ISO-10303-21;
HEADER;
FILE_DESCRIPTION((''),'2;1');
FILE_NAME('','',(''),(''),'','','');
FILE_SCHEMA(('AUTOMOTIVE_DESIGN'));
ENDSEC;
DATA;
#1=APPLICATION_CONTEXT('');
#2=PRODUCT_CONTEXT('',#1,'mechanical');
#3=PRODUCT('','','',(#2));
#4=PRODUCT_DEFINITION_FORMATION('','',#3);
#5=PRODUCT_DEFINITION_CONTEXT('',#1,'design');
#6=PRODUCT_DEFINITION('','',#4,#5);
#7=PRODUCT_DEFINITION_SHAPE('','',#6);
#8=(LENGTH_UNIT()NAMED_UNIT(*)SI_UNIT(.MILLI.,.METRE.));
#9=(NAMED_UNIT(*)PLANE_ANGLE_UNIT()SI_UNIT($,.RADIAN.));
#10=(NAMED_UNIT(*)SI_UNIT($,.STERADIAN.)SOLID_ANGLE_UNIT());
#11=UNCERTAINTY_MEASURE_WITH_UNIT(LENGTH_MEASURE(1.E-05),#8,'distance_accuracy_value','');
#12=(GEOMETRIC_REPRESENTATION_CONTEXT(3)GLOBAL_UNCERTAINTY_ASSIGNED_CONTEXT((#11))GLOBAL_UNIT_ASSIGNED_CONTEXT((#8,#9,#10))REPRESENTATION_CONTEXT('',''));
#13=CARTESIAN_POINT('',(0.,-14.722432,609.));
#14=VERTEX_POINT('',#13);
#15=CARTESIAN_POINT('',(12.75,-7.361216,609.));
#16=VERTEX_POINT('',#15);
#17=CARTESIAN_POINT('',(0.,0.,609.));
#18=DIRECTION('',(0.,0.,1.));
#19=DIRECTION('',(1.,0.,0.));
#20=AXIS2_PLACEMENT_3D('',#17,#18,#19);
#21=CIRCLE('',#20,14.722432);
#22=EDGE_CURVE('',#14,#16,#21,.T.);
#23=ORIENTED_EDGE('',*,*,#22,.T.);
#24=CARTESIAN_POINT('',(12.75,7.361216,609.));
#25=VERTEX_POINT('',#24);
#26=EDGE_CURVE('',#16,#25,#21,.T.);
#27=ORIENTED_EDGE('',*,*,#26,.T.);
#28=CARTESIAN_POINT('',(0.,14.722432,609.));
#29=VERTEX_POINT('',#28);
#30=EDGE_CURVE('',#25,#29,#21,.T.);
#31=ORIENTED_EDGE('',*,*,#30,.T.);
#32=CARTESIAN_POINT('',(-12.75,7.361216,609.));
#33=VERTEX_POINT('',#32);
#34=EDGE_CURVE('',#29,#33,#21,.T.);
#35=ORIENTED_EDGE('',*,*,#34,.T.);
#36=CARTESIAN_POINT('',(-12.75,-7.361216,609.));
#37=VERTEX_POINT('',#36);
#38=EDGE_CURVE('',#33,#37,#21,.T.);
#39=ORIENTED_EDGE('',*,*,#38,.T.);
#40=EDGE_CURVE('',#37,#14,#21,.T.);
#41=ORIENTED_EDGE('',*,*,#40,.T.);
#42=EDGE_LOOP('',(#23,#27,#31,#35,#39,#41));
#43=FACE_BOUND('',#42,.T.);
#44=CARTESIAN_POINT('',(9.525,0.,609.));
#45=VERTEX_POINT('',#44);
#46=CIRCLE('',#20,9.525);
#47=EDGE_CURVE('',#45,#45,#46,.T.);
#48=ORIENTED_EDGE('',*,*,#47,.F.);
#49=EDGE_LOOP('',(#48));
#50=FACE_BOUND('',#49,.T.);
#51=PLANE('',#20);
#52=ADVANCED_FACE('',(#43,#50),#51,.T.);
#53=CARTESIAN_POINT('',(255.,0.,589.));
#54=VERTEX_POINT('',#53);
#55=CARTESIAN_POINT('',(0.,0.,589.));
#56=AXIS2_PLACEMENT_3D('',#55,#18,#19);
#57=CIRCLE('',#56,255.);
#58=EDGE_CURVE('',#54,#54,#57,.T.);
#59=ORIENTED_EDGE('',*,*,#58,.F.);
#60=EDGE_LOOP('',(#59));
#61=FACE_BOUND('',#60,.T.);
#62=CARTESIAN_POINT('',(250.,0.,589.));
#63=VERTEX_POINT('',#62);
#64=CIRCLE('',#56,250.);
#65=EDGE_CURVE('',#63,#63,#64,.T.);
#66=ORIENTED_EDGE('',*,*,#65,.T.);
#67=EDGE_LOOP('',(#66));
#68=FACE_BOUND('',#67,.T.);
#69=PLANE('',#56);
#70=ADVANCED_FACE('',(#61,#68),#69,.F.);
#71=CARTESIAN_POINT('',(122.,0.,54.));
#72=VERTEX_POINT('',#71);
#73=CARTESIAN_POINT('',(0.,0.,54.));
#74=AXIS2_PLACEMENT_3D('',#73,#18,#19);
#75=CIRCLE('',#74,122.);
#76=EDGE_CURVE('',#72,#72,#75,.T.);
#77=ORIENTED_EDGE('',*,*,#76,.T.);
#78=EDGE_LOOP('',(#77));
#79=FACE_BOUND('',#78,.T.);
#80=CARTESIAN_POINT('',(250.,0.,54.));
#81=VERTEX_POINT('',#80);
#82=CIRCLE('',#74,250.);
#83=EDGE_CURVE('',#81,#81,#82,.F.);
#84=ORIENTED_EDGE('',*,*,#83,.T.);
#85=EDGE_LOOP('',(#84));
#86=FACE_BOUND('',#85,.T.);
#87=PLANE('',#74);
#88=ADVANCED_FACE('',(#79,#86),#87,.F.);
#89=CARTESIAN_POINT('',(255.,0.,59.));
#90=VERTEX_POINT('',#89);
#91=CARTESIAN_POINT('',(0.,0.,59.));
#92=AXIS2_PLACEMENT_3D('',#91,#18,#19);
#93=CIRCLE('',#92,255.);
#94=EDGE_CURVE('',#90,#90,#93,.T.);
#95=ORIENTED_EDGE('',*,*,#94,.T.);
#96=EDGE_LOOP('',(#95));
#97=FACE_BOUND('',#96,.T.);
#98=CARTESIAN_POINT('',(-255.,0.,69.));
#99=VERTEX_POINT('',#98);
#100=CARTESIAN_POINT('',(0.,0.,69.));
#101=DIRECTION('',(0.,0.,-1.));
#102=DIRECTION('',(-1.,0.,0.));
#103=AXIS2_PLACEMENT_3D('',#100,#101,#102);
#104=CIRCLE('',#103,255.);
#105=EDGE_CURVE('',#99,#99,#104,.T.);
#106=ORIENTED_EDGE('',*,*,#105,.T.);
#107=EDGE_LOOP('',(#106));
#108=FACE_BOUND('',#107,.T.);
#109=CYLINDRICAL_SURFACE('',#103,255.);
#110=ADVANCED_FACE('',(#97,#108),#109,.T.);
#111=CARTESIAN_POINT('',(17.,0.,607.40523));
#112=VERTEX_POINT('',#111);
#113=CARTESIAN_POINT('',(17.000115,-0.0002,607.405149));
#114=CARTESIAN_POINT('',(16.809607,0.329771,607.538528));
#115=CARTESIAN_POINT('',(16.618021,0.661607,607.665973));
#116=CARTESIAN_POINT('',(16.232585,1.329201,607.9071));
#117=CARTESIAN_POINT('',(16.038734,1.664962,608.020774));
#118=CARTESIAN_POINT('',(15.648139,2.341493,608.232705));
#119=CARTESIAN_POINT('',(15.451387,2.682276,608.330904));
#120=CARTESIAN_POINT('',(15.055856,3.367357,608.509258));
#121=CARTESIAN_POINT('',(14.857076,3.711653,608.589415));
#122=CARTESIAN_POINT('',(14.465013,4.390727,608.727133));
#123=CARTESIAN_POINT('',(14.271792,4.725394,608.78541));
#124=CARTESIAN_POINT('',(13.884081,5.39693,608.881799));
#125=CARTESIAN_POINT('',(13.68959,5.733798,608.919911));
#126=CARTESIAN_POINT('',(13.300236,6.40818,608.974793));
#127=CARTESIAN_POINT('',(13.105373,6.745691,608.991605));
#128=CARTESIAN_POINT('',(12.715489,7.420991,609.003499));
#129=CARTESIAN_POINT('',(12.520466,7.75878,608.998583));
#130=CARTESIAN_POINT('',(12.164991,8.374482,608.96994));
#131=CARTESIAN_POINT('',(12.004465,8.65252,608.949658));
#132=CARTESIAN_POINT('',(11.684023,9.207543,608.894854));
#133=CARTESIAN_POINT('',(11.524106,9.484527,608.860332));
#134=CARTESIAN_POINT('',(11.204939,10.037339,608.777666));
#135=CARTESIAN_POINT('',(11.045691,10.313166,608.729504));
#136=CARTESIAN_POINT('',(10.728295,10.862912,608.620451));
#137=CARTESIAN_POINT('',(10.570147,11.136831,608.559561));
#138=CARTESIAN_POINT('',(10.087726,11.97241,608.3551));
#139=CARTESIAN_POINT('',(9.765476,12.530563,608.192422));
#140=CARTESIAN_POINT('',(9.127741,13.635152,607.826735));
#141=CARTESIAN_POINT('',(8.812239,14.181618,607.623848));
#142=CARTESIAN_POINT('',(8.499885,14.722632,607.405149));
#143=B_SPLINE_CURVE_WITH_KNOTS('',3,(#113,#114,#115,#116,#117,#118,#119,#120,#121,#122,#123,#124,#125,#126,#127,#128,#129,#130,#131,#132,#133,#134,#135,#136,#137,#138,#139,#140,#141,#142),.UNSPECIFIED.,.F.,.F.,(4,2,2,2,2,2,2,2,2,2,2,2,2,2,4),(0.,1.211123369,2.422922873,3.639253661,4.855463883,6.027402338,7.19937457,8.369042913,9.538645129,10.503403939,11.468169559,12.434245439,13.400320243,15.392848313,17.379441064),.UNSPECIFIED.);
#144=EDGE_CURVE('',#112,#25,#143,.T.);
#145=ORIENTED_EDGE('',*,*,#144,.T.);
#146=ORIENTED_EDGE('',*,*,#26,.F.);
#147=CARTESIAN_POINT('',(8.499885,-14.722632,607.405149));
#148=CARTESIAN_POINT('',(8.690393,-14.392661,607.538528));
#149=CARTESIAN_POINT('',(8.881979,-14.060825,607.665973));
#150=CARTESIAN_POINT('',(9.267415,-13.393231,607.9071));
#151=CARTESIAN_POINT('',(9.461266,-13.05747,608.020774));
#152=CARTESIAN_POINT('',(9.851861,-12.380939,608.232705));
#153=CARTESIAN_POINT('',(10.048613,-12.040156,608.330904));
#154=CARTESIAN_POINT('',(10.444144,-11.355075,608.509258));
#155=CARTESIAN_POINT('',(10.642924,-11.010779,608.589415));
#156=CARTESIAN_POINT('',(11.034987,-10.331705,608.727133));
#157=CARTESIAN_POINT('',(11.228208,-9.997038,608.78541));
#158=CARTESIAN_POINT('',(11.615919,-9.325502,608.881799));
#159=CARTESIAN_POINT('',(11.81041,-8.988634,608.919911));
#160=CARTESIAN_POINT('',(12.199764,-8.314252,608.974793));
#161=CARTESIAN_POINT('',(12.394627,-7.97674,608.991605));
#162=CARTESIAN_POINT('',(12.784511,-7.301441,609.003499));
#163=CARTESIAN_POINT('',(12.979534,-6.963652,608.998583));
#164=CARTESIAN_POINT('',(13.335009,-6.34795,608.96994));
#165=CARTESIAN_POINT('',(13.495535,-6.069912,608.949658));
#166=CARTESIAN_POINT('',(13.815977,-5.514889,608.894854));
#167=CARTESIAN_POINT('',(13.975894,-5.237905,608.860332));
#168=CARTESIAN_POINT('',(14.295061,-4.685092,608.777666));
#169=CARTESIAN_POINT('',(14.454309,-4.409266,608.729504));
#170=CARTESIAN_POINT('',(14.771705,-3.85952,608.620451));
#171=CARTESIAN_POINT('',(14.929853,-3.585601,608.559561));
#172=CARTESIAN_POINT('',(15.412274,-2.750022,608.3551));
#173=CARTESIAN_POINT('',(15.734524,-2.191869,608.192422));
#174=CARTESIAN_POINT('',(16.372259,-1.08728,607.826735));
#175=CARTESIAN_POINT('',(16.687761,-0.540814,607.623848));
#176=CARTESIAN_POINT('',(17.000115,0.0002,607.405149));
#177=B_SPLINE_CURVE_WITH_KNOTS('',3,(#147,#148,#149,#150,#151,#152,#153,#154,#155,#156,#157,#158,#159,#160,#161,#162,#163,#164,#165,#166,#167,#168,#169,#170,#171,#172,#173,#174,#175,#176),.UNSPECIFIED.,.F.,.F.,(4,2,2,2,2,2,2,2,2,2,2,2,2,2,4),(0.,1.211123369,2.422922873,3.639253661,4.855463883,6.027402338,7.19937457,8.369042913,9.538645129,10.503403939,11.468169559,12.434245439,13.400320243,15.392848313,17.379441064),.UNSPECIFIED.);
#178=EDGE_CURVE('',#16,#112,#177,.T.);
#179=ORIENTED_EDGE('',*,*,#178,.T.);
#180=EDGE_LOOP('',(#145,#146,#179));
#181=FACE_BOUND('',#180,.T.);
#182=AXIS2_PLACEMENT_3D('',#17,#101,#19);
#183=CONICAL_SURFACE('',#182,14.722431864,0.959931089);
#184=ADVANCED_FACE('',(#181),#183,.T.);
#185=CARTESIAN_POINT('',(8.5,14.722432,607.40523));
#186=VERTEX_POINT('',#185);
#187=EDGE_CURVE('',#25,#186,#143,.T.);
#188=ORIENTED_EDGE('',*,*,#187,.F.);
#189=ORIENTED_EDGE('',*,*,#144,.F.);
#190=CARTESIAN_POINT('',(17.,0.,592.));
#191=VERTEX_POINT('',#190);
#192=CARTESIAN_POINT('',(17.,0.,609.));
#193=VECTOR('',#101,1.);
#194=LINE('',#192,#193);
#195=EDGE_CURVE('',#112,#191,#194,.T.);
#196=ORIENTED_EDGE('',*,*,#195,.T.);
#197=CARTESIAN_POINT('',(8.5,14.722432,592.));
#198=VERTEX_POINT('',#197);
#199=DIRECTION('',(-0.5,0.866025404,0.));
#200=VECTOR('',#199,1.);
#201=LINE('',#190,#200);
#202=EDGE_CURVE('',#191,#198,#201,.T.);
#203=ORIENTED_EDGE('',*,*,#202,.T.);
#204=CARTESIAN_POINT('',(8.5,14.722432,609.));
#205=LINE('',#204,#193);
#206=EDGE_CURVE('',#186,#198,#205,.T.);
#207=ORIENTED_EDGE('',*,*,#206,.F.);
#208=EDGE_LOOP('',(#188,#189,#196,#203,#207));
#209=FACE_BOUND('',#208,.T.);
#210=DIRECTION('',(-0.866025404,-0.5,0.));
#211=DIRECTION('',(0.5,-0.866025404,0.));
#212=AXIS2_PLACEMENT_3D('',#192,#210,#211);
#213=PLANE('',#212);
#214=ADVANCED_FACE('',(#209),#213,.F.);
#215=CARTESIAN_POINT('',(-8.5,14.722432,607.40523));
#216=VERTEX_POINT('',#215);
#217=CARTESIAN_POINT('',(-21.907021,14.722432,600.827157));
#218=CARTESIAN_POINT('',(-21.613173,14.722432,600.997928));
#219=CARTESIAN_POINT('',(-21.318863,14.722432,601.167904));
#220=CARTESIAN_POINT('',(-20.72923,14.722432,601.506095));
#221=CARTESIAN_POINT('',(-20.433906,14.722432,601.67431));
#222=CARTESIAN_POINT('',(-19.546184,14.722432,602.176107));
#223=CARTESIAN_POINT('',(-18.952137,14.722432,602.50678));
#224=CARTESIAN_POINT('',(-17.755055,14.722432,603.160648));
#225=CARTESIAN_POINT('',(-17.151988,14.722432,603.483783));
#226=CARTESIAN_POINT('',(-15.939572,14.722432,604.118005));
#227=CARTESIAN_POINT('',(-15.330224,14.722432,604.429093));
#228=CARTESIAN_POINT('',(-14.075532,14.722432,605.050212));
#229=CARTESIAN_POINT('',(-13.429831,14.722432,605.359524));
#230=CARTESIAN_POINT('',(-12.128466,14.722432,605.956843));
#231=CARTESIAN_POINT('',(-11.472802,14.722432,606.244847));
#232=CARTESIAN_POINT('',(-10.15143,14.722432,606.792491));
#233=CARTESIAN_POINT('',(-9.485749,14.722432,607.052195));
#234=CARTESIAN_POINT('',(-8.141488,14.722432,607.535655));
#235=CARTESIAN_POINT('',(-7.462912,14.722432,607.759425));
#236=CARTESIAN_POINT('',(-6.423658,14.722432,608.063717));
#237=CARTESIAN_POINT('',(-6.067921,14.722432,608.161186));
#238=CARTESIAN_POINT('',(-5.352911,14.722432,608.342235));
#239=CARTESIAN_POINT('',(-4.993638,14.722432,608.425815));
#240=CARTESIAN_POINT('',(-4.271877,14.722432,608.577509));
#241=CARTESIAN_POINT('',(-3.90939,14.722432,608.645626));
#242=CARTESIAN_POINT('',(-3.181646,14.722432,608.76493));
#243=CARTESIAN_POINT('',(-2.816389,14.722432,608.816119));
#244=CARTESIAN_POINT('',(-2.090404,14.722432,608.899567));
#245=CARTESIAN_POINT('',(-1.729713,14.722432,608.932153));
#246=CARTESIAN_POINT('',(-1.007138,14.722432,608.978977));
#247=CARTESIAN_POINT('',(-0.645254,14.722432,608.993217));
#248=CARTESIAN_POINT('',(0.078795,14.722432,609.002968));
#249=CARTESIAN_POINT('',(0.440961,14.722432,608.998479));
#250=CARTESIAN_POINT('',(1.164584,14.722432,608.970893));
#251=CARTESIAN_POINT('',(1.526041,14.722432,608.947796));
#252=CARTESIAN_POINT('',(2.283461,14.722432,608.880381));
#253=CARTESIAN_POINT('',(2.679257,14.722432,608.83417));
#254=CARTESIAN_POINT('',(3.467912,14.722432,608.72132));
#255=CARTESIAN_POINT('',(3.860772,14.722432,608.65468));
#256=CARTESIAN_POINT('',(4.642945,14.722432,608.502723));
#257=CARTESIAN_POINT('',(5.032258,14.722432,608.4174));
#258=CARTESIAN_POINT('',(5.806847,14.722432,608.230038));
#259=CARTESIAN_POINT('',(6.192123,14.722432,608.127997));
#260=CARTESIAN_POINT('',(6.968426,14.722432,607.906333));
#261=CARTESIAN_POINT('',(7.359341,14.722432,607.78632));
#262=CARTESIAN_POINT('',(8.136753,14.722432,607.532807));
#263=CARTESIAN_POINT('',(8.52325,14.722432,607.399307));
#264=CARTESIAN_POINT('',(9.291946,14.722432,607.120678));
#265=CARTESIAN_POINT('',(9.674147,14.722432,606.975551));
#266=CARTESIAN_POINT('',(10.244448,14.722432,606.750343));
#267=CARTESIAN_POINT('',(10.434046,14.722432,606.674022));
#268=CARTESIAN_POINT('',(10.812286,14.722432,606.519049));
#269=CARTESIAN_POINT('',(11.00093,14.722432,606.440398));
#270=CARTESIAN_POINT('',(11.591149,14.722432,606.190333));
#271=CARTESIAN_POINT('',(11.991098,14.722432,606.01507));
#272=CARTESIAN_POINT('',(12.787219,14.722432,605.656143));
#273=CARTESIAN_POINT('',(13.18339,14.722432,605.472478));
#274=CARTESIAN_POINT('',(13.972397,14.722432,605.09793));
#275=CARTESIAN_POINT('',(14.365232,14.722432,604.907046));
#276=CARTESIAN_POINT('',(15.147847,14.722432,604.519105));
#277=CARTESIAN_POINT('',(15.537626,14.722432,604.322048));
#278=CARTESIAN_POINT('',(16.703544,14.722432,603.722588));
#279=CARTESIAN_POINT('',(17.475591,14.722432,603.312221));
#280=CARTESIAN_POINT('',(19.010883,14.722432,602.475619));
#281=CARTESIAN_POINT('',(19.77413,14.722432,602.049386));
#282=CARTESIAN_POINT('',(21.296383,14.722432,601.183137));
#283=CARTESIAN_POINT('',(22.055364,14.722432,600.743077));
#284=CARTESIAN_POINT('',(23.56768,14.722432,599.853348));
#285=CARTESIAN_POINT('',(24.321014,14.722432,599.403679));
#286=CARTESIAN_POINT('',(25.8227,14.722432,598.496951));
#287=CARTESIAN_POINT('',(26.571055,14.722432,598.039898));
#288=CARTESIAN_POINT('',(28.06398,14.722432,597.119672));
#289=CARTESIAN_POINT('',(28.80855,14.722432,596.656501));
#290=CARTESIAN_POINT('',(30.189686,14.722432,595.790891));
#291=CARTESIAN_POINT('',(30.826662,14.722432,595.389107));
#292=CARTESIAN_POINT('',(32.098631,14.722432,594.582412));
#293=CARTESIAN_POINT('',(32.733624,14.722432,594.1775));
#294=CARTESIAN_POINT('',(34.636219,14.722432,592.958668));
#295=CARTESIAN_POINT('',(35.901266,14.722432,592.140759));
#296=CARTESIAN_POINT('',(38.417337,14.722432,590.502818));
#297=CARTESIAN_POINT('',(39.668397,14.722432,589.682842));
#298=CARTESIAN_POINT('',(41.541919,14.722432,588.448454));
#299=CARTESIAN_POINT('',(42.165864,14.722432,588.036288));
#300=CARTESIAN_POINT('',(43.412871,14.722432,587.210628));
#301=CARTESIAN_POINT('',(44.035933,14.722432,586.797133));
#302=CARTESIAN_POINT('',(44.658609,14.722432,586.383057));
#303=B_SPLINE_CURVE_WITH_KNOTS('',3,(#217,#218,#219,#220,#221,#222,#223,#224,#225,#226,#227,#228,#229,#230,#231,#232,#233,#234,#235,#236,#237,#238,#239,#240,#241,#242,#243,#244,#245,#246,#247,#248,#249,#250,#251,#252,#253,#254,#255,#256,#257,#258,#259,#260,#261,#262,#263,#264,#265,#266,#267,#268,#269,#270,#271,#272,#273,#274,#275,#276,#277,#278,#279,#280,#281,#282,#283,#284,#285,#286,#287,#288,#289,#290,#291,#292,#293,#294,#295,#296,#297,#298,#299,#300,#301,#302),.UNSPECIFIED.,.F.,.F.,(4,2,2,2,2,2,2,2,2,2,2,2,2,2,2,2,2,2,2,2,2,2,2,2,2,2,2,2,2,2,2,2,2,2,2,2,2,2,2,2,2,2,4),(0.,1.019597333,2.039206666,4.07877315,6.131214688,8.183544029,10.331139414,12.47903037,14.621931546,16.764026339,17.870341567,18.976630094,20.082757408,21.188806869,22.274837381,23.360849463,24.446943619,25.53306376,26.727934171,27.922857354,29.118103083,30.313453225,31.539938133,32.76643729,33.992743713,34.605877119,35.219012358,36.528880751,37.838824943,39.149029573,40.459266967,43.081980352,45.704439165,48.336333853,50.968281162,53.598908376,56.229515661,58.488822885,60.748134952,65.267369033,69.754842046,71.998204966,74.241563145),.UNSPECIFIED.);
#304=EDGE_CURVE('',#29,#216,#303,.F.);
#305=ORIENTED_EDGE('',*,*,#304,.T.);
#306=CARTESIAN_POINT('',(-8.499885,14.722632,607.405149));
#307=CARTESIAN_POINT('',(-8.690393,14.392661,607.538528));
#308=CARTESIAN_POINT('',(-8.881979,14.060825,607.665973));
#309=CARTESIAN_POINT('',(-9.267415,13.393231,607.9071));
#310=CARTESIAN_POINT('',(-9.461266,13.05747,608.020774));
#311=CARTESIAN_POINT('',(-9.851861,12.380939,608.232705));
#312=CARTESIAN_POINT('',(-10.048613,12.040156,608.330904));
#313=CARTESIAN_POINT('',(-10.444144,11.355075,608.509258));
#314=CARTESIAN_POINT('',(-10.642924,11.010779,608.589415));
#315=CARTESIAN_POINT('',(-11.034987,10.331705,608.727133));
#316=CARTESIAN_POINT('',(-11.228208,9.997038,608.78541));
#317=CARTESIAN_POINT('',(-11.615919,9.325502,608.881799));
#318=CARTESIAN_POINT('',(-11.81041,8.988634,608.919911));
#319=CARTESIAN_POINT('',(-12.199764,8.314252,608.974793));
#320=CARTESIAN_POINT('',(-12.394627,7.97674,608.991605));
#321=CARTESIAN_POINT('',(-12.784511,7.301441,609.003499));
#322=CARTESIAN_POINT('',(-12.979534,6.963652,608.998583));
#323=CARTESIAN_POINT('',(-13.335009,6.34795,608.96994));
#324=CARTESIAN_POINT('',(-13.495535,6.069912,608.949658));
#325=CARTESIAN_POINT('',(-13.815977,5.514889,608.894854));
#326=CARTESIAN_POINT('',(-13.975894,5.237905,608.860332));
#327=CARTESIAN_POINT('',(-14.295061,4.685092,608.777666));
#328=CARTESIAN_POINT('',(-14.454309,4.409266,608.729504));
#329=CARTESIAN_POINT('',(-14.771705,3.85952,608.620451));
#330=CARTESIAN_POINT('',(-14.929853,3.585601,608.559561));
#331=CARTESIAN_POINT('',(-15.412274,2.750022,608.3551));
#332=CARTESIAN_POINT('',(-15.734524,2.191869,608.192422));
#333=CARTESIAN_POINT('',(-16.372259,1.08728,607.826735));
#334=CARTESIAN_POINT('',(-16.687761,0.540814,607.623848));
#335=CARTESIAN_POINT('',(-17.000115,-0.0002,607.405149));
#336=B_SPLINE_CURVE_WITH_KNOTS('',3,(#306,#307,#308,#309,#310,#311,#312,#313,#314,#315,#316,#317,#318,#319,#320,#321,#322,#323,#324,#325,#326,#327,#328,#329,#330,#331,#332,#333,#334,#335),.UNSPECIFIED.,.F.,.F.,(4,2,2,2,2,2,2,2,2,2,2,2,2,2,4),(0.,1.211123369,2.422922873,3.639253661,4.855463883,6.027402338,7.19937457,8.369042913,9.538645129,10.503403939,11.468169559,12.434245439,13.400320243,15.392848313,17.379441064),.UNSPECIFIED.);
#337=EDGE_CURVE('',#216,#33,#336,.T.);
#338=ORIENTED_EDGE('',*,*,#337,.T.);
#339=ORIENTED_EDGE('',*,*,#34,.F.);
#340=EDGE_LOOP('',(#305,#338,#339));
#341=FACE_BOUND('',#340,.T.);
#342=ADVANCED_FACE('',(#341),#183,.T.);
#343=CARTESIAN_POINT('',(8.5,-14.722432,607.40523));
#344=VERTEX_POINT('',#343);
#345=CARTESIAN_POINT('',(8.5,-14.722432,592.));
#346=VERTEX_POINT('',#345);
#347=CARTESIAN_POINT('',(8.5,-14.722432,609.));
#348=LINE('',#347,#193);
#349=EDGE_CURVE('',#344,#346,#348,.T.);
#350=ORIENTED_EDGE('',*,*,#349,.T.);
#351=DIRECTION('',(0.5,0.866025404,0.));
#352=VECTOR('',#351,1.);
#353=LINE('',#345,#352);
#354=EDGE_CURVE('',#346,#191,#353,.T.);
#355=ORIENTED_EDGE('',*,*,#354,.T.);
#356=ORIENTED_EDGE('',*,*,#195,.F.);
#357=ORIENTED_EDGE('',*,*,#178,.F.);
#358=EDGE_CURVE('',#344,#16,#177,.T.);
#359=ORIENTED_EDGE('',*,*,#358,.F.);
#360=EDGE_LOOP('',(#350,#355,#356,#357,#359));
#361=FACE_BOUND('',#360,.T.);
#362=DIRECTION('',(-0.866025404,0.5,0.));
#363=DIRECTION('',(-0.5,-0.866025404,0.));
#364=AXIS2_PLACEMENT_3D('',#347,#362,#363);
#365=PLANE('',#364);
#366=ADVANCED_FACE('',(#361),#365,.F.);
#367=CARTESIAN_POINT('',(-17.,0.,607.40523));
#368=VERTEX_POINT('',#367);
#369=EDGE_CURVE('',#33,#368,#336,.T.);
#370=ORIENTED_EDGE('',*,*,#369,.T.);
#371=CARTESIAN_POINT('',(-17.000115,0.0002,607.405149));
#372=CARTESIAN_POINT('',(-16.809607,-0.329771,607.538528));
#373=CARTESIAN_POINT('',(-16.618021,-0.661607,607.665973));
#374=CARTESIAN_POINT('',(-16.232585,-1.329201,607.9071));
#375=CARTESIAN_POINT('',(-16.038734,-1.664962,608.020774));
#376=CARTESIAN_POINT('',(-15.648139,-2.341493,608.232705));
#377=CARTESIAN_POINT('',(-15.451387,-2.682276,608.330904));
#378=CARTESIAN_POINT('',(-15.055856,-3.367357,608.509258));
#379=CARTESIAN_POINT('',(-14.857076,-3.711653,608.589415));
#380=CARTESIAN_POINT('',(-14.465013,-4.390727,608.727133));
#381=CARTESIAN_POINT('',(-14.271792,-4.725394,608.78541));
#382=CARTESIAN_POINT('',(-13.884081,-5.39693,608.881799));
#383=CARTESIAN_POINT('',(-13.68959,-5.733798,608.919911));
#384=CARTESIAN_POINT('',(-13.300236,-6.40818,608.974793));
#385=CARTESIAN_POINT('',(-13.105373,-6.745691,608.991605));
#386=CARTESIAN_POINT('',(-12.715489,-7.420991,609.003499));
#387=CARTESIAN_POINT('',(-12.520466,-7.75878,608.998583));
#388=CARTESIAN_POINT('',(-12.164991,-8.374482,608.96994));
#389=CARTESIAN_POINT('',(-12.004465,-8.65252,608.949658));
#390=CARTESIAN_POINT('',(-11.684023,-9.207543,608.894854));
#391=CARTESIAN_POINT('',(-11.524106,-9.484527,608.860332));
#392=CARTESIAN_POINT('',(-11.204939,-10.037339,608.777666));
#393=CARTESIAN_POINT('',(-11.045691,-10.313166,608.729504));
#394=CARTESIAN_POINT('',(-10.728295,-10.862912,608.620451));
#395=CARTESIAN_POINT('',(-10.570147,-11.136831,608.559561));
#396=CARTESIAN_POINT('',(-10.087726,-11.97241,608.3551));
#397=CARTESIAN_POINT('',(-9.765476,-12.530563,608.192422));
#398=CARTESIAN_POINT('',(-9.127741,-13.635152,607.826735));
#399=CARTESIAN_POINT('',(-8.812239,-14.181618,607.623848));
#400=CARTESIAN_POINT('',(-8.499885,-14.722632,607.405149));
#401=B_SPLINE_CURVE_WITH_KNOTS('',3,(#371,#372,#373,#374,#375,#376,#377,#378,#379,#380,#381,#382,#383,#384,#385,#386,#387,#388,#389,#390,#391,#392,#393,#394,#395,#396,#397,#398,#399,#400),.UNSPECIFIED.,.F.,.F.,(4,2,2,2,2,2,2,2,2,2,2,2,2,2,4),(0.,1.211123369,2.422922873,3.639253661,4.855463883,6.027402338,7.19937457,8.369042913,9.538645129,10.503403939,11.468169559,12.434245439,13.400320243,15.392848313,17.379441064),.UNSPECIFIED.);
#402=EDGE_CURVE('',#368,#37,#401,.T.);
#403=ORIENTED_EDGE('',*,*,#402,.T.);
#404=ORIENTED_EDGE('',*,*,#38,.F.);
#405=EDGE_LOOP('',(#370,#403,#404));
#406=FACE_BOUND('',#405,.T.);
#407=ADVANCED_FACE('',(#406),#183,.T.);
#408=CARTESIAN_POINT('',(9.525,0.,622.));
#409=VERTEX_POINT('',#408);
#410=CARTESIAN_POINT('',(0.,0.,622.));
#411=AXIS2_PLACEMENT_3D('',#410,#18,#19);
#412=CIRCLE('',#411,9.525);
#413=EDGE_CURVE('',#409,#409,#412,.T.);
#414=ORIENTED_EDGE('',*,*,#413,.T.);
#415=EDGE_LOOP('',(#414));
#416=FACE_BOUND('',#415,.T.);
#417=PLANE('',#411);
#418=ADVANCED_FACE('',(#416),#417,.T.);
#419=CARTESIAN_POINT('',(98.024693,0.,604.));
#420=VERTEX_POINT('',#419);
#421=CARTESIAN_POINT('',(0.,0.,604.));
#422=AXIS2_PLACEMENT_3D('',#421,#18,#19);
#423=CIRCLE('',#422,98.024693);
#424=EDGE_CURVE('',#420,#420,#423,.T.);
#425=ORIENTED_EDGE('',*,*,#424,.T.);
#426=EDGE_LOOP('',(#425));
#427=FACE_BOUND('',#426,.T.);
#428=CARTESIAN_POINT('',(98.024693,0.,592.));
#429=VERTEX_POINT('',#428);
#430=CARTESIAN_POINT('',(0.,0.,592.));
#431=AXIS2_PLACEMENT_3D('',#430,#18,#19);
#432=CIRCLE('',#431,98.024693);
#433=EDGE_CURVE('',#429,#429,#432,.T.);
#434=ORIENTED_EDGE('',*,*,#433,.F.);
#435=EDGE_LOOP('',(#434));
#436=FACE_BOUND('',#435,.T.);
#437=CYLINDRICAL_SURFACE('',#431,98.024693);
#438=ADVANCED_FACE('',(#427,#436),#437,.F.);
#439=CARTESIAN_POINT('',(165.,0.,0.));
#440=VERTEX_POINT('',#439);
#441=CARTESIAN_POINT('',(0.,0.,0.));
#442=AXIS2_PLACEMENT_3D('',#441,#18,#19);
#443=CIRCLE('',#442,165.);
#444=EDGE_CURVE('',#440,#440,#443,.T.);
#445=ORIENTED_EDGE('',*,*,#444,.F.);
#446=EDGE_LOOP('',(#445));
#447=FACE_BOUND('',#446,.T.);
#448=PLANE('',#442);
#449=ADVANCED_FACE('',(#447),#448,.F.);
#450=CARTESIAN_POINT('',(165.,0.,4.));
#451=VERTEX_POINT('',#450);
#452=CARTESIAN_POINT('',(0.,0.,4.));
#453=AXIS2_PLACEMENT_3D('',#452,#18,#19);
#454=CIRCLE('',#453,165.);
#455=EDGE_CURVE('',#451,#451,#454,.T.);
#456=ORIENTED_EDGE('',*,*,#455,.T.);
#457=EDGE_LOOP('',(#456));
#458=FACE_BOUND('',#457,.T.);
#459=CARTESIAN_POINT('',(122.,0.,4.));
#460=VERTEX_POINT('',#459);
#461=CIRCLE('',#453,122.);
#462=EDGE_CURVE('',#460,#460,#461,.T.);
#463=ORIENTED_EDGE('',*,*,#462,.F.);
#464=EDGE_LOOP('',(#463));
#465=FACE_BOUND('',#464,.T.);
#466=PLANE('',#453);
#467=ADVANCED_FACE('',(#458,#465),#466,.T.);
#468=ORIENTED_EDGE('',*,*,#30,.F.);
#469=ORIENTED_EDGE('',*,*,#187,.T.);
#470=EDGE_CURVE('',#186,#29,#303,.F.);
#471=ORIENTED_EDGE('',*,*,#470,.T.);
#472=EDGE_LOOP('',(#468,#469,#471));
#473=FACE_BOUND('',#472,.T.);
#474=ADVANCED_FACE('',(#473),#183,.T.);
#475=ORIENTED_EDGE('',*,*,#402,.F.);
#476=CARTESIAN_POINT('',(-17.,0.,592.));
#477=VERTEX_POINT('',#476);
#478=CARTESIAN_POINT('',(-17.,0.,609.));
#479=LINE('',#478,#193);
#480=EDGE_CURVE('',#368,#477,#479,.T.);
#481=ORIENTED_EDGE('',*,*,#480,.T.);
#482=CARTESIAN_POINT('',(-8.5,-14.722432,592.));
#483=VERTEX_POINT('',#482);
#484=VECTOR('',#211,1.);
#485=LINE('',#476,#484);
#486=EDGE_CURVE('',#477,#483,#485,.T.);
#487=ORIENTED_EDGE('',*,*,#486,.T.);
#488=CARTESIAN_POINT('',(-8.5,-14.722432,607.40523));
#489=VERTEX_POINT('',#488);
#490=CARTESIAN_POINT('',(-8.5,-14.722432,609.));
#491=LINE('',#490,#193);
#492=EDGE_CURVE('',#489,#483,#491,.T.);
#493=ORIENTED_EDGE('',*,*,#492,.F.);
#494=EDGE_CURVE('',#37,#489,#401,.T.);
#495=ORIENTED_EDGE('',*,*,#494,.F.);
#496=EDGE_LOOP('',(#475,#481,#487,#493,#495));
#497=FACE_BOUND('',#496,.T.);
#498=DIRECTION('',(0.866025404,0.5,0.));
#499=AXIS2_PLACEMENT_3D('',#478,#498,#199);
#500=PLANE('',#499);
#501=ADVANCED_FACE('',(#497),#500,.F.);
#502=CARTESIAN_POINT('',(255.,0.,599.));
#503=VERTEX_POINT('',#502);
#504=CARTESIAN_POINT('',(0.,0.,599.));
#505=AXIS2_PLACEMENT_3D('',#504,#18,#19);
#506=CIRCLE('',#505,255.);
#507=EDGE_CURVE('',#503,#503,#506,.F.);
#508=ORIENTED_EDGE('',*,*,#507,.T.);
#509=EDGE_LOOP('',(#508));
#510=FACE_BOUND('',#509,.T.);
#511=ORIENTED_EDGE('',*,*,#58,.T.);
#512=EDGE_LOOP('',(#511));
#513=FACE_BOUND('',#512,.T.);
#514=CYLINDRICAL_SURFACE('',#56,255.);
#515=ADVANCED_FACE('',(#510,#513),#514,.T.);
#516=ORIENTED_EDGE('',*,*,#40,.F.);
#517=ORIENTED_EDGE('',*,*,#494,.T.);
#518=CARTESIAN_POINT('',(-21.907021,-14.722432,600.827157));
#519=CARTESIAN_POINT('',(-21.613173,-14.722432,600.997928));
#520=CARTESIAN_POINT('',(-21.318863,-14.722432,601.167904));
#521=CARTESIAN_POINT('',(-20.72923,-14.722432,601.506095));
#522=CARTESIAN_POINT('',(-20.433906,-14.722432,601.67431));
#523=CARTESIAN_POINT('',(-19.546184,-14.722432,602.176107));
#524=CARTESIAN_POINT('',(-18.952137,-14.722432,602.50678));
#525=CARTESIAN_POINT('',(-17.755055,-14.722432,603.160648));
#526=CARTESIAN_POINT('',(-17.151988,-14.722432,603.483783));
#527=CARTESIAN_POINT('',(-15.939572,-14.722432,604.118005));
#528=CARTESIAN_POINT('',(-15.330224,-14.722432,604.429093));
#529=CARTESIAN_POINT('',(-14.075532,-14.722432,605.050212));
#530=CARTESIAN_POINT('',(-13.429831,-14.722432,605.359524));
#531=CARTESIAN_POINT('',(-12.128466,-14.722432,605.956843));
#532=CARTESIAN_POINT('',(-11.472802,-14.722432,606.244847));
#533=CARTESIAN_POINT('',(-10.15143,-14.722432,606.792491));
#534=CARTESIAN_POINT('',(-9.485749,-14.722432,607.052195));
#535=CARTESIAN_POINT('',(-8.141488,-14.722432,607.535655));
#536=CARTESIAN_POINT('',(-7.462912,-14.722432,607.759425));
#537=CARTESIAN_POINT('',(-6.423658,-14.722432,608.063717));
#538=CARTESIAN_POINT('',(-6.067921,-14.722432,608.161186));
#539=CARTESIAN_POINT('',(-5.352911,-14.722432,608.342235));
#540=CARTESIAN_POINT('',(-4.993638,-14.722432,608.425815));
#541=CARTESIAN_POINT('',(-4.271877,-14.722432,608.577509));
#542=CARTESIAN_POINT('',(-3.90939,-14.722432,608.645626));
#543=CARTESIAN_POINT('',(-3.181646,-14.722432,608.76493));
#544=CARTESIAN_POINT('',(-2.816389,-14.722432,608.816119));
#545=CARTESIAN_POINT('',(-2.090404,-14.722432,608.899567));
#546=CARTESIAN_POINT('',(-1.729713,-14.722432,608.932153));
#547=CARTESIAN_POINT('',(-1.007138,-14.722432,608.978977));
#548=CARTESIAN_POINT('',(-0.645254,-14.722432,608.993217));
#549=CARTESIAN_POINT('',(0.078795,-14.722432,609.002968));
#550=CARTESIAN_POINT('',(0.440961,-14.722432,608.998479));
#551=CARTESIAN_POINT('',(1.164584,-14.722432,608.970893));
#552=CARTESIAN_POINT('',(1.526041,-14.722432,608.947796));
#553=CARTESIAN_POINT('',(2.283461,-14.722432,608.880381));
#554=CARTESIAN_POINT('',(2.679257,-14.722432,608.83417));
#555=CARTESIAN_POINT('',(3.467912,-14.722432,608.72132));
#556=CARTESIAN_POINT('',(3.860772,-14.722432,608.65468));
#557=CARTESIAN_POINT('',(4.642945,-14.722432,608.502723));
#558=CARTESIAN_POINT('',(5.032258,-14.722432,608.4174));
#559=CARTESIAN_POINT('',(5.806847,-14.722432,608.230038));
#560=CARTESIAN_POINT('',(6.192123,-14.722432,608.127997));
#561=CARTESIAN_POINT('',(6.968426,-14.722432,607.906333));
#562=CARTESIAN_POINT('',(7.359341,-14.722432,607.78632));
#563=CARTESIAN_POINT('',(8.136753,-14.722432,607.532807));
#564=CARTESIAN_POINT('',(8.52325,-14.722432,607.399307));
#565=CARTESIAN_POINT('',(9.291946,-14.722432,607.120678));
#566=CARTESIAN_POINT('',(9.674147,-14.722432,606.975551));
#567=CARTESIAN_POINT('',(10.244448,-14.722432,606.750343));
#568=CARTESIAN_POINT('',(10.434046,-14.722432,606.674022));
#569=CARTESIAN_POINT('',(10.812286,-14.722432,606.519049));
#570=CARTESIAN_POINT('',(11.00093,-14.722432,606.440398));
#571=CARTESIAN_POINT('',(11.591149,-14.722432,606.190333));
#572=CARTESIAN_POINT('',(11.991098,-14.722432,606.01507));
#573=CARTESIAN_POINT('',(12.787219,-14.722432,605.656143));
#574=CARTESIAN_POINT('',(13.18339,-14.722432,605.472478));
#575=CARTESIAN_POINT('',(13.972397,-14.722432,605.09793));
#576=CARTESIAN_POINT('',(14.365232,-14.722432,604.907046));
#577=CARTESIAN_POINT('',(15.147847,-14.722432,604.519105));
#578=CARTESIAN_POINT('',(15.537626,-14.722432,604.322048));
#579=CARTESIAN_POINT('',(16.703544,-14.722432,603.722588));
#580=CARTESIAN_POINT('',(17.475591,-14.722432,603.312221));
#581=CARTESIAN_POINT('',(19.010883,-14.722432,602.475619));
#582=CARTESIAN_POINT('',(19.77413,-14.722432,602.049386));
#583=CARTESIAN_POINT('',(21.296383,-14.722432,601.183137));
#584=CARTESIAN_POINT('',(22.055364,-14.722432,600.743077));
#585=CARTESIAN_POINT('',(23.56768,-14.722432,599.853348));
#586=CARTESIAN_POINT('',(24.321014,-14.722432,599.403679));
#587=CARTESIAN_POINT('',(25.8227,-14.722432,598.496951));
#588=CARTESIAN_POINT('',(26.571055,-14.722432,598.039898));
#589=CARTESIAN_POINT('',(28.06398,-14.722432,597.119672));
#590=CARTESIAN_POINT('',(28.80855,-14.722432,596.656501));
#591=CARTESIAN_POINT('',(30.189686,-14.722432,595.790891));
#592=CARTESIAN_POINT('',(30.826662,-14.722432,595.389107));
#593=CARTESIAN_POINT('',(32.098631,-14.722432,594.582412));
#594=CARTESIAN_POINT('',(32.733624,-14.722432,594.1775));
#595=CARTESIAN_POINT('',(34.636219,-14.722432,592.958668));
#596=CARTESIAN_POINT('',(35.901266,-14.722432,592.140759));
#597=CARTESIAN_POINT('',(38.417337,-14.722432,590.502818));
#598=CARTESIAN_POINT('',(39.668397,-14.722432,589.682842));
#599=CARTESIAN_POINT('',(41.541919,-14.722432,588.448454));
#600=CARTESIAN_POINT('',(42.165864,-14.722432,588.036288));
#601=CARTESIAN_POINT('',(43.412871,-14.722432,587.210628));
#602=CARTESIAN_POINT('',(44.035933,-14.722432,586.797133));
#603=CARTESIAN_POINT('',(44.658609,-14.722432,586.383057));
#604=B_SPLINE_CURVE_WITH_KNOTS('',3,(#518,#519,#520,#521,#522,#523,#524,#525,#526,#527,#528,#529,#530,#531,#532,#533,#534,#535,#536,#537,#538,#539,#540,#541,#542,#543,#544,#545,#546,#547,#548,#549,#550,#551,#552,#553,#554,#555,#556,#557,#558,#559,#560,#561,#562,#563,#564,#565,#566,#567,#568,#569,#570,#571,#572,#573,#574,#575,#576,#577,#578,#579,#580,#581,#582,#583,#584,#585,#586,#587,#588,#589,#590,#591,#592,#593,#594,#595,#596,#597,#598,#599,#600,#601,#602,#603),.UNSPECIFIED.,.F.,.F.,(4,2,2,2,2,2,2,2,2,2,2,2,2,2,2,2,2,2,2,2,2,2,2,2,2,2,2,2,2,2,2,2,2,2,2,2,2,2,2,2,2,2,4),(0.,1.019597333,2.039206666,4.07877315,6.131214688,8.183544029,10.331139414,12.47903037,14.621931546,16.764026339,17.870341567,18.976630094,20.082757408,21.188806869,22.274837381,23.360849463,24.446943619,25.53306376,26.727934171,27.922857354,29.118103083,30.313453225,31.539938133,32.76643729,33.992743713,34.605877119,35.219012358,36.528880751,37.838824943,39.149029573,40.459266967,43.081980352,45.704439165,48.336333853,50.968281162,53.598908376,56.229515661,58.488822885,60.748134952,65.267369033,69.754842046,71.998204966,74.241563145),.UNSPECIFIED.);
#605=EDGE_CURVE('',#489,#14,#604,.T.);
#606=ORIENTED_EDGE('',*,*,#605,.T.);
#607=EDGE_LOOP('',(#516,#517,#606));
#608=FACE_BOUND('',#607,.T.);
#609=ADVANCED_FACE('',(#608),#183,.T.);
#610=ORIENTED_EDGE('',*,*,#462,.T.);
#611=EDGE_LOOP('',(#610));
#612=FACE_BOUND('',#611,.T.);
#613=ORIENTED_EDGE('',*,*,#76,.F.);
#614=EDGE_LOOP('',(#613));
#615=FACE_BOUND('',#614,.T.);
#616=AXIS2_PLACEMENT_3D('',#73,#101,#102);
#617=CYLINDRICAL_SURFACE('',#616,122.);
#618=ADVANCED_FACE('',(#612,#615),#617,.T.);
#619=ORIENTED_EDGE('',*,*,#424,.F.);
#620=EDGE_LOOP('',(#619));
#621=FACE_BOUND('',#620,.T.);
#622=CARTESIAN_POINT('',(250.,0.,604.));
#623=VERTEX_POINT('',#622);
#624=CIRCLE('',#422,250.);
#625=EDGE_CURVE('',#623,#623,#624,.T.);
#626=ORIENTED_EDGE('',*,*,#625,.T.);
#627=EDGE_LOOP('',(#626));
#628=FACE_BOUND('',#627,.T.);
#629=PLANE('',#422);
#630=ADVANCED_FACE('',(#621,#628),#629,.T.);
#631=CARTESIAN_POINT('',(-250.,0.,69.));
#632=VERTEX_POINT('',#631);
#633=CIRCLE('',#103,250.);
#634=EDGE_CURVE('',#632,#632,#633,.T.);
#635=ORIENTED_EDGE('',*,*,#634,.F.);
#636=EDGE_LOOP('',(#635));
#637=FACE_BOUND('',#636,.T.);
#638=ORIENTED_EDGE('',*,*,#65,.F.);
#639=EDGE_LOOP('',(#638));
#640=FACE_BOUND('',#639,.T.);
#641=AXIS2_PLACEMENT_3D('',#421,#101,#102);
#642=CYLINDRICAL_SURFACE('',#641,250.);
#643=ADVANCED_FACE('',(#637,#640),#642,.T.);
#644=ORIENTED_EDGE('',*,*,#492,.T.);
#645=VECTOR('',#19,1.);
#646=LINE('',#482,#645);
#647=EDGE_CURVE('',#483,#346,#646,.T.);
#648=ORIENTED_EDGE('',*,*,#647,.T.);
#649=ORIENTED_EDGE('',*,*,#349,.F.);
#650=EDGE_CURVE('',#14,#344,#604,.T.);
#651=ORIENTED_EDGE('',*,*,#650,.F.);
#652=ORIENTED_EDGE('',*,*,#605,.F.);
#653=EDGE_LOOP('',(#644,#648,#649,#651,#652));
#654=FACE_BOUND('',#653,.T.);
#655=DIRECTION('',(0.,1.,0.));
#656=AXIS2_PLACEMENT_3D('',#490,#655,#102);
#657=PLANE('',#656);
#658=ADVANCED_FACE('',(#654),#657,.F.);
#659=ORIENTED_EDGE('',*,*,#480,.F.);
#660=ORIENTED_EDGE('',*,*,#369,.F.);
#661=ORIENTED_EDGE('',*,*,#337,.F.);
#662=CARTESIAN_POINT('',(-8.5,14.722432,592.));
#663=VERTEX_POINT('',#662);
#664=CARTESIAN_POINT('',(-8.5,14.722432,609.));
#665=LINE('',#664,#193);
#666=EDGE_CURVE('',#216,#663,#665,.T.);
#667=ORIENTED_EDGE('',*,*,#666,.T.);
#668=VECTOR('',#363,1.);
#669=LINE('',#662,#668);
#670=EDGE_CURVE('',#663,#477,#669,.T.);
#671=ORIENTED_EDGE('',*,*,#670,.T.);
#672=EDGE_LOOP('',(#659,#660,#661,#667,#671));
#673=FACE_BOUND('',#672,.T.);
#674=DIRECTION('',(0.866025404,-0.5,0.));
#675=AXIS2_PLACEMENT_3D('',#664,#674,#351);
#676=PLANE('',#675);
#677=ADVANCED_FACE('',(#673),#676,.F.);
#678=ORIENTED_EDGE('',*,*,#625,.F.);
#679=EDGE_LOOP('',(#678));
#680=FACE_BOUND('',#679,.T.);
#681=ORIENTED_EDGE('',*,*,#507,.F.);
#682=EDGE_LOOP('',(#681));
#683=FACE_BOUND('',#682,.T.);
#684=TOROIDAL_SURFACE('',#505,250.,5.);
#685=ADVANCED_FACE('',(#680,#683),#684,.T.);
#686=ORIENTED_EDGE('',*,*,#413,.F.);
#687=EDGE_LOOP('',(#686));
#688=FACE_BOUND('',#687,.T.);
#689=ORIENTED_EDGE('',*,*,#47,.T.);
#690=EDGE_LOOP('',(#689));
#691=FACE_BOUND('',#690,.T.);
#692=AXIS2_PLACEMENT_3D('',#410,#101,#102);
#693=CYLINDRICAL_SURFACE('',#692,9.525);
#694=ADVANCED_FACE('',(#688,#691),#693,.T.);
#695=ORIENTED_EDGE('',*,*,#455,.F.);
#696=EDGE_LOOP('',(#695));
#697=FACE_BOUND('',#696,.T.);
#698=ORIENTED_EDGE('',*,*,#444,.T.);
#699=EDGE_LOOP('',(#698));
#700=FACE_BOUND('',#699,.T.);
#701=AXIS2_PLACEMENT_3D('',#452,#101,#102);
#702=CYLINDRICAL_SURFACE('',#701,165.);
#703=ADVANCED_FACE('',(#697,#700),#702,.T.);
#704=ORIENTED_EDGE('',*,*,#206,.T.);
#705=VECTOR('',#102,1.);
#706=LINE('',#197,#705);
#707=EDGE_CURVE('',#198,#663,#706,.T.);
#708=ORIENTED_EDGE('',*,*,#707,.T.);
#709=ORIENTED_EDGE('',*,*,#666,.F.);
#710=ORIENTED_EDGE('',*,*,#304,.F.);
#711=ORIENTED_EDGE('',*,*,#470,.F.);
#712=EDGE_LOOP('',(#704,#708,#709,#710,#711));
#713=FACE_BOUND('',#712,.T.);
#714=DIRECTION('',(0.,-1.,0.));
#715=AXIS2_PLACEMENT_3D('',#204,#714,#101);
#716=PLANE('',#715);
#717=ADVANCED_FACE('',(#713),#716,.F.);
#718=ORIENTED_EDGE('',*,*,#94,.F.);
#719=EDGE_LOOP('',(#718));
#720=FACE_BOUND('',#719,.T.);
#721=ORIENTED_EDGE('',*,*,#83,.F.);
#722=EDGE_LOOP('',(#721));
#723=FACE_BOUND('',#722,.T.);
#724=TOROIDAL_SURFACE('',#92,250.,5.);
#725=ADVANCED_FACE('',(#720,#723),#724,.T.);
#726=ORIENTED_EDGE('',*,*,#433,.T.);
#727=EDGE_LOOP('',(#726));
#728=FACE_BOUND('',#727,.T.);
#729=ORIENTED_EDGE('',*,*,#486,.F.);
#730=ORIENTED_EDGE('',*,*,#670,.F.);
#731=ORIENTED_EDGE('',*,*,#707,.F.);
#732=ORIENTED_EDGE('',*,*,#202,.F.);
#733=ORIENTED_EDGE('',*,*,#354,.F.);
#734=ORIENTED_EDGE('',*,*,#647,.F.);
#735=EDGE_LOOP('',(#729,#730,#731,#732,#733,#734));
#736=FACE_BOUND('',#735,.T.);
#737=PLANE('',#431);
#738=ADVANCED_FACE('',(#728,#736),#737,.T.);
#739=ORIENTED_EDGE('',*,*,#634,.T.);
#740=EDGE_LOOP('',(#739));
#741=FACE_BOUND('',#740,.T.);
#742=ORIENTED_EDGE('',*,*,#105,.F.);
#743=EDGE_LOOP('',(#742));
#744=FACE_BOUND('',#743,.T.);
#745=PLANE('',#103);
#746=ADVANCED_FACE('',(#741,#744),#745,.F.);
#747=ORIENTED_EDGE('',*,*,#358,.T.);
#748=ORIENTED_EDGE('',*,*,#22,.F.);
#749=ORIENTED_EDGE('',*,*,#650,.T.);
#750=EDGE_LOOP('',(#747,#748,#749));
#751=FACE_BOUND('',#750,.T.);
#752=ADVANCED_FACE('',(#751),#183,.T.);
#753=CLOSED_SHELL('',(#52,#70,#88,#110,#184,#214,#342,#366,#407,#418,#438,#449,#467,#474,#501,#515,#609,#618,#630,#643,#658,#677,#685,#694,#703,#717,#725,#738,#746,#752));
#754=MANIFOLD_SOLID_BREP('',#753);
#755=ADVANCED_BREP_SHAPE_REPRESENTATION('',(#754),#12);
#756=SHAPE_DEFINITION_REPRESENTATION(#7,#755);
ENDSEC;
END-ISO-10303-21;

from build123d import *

# Parameters (mm, degrees)
CROQUIS1_R              = 165
SALIENTE_EXTRUIR1_DEPTH = 4
CROQUIS2_R              = 122
SALIENTE_EXTRUIR2_DEPTH = 50
CROQUIS3_R              = 250
SALIENTE_EXTRUIR3_DEPTH = 550
CROQUIS4_R              = 255
SALIENTE_EXTRUIR4_DEPTH = 15
SALIENTE_EXTRUIR5_START = -15
CROQUIS5_R              = 255
SALIENTE_EXTRUIR5_DEPTH = 15
REDONDEO1_R             = 5
CROQUIS6_R              = 98.024692722
CORTAR_EXTRUIR1_DEPTH   = 12
CROQUIS7_R              = 9.525
SALIENTE_EXTRUIR6_DEPTH = 30
SALIENTE_EXTRUIR7_DEPTH = 17
CROQUIS9_R              = 43.133819065
CROQUIS9_R_2            = 14.722431864
CORTAR_EXTRUIR2_DEPTH   = 10
CORTAR_EXTRUIR2_DRAFT   = -55


with BuildPart() as part:
    # Croquis1 → Saliente-Extruir1 (new body)
    with BuildSketch(Plane.XY):
        Circle(CROQUIS1_R)
    extrude(amount=SALIENTE_EXTRUIR1_DEPTH)

    # Croquis2 → Saliente-Extruir2 (add)
    with BuildSketch(Plane.XY.offset(4)):
        Circle(CROQUIS2_R)
    extrude(amount=SALIENTE_EXTRUIR2_DEPTH)

    # Croquis3 → Saliente-Extruir3 (add)
    with BuildSketch(Plane.XY.offset(54)):
        Circle(CROQUIS3_R)
    extrude(amount=SALIENTE_EXTRUIR3_DEPTH)

    # Croquis4 → Saliente-Extruir4 (add)
    with BuildSketch(Plane(origin=(0, 0, 54), x_dir=(-1, 0, 0), z_dir=(0, 0, -1))):
        Circle(CROQUIS4_R)
    extrude(amount=-SALIENTE_EXTRUIR4_DEPTH)

    # Croquis5 → Saliente-Extruir5 (add)
    with BuildSketch(Plane.XY.offset(604).offset(SALIENTE_EXTRUIR5_START)):
        with Locations(Location((0, 0, 0), (0, 0, 180))):
            Circle(CROQUIS5_R)
    extrude(amount=SALIENTE_EXTRUIR5_DEPTH)

    # Redondeo1
    redondeo1_edges = [part.edges().sort_by_distance(p)[0] for p in [
        (255, 0, 54),
        (255, 0, 604),
    ]]
    fillet(redondeo1_edges, radius=REDONDEO1_R)

    # Croquis6 → Cortar-Extruir1 (cut)
    with BuildSketch(Plane.XY.offset(604)):
        Circle(CROQUIS6_R)
    extrude(amount=-CORTAR_EXTRUIR1_DEPTH, mode=Mode.SUBTRACT)

    # Croquis7 → Saliente-Extruir6 (add)
    with BuildSketch(Plane.XY.offset(592)):
        Circle(CROQUIS7_R)
    extrude(amount=SALIENTE_EXTRUIR6_DEPTH)

    # Croquis8 → Saliente-Extruir7 (add)
    with BuildSketch(Plane.XY.offset(592)):
        Polygon((17, 0), (8.5, 14.722431864), (-8.5, 14.722431864), (-17, 0), (-8.5, -14.722431864), (8.5, -14.722431864), align=None)
    extrude(amount=SALIENTE_EXTRUIR7_DEPTH)


with BuildPart() as cortar_extruir2_tool:
    # Croquis9 → Cortar-Extruir2 (with draft: the straight prism first)
    with BuildSketch(Plane.XY.offset(609)):
        Circle(CROQUIS9_R)
        Circle(CROQUIS9_R_2, mode=Mode.SUBTRACT)
    extrude(amount=-CORTAR_EXTRUIR2_DEPTH)
    # Cortar-Extruir2: the draft: its side faces are tilted about the plane it starts from
    cortar_extruir2_sides = [cortar_extruir2_tool.faces().sort_by_distance(p)[0] for p in [
        (-43.133819065, 0, 604),
        (-14.722431864, 0, 604),
    ]]
    draft(cortar_extruir2_sides, Plane.XY.offset(609), CORTAR_EXTRUIR2_DRAFT)


with BuildPart() as part_1:
    add(part.part)

    # Cortar-Extruir2: cut by cortar_extruir2_tool
    add(cortar_extruir2_tool.part, mode=Mode.SUBTRACT)


solid = part_1.part
